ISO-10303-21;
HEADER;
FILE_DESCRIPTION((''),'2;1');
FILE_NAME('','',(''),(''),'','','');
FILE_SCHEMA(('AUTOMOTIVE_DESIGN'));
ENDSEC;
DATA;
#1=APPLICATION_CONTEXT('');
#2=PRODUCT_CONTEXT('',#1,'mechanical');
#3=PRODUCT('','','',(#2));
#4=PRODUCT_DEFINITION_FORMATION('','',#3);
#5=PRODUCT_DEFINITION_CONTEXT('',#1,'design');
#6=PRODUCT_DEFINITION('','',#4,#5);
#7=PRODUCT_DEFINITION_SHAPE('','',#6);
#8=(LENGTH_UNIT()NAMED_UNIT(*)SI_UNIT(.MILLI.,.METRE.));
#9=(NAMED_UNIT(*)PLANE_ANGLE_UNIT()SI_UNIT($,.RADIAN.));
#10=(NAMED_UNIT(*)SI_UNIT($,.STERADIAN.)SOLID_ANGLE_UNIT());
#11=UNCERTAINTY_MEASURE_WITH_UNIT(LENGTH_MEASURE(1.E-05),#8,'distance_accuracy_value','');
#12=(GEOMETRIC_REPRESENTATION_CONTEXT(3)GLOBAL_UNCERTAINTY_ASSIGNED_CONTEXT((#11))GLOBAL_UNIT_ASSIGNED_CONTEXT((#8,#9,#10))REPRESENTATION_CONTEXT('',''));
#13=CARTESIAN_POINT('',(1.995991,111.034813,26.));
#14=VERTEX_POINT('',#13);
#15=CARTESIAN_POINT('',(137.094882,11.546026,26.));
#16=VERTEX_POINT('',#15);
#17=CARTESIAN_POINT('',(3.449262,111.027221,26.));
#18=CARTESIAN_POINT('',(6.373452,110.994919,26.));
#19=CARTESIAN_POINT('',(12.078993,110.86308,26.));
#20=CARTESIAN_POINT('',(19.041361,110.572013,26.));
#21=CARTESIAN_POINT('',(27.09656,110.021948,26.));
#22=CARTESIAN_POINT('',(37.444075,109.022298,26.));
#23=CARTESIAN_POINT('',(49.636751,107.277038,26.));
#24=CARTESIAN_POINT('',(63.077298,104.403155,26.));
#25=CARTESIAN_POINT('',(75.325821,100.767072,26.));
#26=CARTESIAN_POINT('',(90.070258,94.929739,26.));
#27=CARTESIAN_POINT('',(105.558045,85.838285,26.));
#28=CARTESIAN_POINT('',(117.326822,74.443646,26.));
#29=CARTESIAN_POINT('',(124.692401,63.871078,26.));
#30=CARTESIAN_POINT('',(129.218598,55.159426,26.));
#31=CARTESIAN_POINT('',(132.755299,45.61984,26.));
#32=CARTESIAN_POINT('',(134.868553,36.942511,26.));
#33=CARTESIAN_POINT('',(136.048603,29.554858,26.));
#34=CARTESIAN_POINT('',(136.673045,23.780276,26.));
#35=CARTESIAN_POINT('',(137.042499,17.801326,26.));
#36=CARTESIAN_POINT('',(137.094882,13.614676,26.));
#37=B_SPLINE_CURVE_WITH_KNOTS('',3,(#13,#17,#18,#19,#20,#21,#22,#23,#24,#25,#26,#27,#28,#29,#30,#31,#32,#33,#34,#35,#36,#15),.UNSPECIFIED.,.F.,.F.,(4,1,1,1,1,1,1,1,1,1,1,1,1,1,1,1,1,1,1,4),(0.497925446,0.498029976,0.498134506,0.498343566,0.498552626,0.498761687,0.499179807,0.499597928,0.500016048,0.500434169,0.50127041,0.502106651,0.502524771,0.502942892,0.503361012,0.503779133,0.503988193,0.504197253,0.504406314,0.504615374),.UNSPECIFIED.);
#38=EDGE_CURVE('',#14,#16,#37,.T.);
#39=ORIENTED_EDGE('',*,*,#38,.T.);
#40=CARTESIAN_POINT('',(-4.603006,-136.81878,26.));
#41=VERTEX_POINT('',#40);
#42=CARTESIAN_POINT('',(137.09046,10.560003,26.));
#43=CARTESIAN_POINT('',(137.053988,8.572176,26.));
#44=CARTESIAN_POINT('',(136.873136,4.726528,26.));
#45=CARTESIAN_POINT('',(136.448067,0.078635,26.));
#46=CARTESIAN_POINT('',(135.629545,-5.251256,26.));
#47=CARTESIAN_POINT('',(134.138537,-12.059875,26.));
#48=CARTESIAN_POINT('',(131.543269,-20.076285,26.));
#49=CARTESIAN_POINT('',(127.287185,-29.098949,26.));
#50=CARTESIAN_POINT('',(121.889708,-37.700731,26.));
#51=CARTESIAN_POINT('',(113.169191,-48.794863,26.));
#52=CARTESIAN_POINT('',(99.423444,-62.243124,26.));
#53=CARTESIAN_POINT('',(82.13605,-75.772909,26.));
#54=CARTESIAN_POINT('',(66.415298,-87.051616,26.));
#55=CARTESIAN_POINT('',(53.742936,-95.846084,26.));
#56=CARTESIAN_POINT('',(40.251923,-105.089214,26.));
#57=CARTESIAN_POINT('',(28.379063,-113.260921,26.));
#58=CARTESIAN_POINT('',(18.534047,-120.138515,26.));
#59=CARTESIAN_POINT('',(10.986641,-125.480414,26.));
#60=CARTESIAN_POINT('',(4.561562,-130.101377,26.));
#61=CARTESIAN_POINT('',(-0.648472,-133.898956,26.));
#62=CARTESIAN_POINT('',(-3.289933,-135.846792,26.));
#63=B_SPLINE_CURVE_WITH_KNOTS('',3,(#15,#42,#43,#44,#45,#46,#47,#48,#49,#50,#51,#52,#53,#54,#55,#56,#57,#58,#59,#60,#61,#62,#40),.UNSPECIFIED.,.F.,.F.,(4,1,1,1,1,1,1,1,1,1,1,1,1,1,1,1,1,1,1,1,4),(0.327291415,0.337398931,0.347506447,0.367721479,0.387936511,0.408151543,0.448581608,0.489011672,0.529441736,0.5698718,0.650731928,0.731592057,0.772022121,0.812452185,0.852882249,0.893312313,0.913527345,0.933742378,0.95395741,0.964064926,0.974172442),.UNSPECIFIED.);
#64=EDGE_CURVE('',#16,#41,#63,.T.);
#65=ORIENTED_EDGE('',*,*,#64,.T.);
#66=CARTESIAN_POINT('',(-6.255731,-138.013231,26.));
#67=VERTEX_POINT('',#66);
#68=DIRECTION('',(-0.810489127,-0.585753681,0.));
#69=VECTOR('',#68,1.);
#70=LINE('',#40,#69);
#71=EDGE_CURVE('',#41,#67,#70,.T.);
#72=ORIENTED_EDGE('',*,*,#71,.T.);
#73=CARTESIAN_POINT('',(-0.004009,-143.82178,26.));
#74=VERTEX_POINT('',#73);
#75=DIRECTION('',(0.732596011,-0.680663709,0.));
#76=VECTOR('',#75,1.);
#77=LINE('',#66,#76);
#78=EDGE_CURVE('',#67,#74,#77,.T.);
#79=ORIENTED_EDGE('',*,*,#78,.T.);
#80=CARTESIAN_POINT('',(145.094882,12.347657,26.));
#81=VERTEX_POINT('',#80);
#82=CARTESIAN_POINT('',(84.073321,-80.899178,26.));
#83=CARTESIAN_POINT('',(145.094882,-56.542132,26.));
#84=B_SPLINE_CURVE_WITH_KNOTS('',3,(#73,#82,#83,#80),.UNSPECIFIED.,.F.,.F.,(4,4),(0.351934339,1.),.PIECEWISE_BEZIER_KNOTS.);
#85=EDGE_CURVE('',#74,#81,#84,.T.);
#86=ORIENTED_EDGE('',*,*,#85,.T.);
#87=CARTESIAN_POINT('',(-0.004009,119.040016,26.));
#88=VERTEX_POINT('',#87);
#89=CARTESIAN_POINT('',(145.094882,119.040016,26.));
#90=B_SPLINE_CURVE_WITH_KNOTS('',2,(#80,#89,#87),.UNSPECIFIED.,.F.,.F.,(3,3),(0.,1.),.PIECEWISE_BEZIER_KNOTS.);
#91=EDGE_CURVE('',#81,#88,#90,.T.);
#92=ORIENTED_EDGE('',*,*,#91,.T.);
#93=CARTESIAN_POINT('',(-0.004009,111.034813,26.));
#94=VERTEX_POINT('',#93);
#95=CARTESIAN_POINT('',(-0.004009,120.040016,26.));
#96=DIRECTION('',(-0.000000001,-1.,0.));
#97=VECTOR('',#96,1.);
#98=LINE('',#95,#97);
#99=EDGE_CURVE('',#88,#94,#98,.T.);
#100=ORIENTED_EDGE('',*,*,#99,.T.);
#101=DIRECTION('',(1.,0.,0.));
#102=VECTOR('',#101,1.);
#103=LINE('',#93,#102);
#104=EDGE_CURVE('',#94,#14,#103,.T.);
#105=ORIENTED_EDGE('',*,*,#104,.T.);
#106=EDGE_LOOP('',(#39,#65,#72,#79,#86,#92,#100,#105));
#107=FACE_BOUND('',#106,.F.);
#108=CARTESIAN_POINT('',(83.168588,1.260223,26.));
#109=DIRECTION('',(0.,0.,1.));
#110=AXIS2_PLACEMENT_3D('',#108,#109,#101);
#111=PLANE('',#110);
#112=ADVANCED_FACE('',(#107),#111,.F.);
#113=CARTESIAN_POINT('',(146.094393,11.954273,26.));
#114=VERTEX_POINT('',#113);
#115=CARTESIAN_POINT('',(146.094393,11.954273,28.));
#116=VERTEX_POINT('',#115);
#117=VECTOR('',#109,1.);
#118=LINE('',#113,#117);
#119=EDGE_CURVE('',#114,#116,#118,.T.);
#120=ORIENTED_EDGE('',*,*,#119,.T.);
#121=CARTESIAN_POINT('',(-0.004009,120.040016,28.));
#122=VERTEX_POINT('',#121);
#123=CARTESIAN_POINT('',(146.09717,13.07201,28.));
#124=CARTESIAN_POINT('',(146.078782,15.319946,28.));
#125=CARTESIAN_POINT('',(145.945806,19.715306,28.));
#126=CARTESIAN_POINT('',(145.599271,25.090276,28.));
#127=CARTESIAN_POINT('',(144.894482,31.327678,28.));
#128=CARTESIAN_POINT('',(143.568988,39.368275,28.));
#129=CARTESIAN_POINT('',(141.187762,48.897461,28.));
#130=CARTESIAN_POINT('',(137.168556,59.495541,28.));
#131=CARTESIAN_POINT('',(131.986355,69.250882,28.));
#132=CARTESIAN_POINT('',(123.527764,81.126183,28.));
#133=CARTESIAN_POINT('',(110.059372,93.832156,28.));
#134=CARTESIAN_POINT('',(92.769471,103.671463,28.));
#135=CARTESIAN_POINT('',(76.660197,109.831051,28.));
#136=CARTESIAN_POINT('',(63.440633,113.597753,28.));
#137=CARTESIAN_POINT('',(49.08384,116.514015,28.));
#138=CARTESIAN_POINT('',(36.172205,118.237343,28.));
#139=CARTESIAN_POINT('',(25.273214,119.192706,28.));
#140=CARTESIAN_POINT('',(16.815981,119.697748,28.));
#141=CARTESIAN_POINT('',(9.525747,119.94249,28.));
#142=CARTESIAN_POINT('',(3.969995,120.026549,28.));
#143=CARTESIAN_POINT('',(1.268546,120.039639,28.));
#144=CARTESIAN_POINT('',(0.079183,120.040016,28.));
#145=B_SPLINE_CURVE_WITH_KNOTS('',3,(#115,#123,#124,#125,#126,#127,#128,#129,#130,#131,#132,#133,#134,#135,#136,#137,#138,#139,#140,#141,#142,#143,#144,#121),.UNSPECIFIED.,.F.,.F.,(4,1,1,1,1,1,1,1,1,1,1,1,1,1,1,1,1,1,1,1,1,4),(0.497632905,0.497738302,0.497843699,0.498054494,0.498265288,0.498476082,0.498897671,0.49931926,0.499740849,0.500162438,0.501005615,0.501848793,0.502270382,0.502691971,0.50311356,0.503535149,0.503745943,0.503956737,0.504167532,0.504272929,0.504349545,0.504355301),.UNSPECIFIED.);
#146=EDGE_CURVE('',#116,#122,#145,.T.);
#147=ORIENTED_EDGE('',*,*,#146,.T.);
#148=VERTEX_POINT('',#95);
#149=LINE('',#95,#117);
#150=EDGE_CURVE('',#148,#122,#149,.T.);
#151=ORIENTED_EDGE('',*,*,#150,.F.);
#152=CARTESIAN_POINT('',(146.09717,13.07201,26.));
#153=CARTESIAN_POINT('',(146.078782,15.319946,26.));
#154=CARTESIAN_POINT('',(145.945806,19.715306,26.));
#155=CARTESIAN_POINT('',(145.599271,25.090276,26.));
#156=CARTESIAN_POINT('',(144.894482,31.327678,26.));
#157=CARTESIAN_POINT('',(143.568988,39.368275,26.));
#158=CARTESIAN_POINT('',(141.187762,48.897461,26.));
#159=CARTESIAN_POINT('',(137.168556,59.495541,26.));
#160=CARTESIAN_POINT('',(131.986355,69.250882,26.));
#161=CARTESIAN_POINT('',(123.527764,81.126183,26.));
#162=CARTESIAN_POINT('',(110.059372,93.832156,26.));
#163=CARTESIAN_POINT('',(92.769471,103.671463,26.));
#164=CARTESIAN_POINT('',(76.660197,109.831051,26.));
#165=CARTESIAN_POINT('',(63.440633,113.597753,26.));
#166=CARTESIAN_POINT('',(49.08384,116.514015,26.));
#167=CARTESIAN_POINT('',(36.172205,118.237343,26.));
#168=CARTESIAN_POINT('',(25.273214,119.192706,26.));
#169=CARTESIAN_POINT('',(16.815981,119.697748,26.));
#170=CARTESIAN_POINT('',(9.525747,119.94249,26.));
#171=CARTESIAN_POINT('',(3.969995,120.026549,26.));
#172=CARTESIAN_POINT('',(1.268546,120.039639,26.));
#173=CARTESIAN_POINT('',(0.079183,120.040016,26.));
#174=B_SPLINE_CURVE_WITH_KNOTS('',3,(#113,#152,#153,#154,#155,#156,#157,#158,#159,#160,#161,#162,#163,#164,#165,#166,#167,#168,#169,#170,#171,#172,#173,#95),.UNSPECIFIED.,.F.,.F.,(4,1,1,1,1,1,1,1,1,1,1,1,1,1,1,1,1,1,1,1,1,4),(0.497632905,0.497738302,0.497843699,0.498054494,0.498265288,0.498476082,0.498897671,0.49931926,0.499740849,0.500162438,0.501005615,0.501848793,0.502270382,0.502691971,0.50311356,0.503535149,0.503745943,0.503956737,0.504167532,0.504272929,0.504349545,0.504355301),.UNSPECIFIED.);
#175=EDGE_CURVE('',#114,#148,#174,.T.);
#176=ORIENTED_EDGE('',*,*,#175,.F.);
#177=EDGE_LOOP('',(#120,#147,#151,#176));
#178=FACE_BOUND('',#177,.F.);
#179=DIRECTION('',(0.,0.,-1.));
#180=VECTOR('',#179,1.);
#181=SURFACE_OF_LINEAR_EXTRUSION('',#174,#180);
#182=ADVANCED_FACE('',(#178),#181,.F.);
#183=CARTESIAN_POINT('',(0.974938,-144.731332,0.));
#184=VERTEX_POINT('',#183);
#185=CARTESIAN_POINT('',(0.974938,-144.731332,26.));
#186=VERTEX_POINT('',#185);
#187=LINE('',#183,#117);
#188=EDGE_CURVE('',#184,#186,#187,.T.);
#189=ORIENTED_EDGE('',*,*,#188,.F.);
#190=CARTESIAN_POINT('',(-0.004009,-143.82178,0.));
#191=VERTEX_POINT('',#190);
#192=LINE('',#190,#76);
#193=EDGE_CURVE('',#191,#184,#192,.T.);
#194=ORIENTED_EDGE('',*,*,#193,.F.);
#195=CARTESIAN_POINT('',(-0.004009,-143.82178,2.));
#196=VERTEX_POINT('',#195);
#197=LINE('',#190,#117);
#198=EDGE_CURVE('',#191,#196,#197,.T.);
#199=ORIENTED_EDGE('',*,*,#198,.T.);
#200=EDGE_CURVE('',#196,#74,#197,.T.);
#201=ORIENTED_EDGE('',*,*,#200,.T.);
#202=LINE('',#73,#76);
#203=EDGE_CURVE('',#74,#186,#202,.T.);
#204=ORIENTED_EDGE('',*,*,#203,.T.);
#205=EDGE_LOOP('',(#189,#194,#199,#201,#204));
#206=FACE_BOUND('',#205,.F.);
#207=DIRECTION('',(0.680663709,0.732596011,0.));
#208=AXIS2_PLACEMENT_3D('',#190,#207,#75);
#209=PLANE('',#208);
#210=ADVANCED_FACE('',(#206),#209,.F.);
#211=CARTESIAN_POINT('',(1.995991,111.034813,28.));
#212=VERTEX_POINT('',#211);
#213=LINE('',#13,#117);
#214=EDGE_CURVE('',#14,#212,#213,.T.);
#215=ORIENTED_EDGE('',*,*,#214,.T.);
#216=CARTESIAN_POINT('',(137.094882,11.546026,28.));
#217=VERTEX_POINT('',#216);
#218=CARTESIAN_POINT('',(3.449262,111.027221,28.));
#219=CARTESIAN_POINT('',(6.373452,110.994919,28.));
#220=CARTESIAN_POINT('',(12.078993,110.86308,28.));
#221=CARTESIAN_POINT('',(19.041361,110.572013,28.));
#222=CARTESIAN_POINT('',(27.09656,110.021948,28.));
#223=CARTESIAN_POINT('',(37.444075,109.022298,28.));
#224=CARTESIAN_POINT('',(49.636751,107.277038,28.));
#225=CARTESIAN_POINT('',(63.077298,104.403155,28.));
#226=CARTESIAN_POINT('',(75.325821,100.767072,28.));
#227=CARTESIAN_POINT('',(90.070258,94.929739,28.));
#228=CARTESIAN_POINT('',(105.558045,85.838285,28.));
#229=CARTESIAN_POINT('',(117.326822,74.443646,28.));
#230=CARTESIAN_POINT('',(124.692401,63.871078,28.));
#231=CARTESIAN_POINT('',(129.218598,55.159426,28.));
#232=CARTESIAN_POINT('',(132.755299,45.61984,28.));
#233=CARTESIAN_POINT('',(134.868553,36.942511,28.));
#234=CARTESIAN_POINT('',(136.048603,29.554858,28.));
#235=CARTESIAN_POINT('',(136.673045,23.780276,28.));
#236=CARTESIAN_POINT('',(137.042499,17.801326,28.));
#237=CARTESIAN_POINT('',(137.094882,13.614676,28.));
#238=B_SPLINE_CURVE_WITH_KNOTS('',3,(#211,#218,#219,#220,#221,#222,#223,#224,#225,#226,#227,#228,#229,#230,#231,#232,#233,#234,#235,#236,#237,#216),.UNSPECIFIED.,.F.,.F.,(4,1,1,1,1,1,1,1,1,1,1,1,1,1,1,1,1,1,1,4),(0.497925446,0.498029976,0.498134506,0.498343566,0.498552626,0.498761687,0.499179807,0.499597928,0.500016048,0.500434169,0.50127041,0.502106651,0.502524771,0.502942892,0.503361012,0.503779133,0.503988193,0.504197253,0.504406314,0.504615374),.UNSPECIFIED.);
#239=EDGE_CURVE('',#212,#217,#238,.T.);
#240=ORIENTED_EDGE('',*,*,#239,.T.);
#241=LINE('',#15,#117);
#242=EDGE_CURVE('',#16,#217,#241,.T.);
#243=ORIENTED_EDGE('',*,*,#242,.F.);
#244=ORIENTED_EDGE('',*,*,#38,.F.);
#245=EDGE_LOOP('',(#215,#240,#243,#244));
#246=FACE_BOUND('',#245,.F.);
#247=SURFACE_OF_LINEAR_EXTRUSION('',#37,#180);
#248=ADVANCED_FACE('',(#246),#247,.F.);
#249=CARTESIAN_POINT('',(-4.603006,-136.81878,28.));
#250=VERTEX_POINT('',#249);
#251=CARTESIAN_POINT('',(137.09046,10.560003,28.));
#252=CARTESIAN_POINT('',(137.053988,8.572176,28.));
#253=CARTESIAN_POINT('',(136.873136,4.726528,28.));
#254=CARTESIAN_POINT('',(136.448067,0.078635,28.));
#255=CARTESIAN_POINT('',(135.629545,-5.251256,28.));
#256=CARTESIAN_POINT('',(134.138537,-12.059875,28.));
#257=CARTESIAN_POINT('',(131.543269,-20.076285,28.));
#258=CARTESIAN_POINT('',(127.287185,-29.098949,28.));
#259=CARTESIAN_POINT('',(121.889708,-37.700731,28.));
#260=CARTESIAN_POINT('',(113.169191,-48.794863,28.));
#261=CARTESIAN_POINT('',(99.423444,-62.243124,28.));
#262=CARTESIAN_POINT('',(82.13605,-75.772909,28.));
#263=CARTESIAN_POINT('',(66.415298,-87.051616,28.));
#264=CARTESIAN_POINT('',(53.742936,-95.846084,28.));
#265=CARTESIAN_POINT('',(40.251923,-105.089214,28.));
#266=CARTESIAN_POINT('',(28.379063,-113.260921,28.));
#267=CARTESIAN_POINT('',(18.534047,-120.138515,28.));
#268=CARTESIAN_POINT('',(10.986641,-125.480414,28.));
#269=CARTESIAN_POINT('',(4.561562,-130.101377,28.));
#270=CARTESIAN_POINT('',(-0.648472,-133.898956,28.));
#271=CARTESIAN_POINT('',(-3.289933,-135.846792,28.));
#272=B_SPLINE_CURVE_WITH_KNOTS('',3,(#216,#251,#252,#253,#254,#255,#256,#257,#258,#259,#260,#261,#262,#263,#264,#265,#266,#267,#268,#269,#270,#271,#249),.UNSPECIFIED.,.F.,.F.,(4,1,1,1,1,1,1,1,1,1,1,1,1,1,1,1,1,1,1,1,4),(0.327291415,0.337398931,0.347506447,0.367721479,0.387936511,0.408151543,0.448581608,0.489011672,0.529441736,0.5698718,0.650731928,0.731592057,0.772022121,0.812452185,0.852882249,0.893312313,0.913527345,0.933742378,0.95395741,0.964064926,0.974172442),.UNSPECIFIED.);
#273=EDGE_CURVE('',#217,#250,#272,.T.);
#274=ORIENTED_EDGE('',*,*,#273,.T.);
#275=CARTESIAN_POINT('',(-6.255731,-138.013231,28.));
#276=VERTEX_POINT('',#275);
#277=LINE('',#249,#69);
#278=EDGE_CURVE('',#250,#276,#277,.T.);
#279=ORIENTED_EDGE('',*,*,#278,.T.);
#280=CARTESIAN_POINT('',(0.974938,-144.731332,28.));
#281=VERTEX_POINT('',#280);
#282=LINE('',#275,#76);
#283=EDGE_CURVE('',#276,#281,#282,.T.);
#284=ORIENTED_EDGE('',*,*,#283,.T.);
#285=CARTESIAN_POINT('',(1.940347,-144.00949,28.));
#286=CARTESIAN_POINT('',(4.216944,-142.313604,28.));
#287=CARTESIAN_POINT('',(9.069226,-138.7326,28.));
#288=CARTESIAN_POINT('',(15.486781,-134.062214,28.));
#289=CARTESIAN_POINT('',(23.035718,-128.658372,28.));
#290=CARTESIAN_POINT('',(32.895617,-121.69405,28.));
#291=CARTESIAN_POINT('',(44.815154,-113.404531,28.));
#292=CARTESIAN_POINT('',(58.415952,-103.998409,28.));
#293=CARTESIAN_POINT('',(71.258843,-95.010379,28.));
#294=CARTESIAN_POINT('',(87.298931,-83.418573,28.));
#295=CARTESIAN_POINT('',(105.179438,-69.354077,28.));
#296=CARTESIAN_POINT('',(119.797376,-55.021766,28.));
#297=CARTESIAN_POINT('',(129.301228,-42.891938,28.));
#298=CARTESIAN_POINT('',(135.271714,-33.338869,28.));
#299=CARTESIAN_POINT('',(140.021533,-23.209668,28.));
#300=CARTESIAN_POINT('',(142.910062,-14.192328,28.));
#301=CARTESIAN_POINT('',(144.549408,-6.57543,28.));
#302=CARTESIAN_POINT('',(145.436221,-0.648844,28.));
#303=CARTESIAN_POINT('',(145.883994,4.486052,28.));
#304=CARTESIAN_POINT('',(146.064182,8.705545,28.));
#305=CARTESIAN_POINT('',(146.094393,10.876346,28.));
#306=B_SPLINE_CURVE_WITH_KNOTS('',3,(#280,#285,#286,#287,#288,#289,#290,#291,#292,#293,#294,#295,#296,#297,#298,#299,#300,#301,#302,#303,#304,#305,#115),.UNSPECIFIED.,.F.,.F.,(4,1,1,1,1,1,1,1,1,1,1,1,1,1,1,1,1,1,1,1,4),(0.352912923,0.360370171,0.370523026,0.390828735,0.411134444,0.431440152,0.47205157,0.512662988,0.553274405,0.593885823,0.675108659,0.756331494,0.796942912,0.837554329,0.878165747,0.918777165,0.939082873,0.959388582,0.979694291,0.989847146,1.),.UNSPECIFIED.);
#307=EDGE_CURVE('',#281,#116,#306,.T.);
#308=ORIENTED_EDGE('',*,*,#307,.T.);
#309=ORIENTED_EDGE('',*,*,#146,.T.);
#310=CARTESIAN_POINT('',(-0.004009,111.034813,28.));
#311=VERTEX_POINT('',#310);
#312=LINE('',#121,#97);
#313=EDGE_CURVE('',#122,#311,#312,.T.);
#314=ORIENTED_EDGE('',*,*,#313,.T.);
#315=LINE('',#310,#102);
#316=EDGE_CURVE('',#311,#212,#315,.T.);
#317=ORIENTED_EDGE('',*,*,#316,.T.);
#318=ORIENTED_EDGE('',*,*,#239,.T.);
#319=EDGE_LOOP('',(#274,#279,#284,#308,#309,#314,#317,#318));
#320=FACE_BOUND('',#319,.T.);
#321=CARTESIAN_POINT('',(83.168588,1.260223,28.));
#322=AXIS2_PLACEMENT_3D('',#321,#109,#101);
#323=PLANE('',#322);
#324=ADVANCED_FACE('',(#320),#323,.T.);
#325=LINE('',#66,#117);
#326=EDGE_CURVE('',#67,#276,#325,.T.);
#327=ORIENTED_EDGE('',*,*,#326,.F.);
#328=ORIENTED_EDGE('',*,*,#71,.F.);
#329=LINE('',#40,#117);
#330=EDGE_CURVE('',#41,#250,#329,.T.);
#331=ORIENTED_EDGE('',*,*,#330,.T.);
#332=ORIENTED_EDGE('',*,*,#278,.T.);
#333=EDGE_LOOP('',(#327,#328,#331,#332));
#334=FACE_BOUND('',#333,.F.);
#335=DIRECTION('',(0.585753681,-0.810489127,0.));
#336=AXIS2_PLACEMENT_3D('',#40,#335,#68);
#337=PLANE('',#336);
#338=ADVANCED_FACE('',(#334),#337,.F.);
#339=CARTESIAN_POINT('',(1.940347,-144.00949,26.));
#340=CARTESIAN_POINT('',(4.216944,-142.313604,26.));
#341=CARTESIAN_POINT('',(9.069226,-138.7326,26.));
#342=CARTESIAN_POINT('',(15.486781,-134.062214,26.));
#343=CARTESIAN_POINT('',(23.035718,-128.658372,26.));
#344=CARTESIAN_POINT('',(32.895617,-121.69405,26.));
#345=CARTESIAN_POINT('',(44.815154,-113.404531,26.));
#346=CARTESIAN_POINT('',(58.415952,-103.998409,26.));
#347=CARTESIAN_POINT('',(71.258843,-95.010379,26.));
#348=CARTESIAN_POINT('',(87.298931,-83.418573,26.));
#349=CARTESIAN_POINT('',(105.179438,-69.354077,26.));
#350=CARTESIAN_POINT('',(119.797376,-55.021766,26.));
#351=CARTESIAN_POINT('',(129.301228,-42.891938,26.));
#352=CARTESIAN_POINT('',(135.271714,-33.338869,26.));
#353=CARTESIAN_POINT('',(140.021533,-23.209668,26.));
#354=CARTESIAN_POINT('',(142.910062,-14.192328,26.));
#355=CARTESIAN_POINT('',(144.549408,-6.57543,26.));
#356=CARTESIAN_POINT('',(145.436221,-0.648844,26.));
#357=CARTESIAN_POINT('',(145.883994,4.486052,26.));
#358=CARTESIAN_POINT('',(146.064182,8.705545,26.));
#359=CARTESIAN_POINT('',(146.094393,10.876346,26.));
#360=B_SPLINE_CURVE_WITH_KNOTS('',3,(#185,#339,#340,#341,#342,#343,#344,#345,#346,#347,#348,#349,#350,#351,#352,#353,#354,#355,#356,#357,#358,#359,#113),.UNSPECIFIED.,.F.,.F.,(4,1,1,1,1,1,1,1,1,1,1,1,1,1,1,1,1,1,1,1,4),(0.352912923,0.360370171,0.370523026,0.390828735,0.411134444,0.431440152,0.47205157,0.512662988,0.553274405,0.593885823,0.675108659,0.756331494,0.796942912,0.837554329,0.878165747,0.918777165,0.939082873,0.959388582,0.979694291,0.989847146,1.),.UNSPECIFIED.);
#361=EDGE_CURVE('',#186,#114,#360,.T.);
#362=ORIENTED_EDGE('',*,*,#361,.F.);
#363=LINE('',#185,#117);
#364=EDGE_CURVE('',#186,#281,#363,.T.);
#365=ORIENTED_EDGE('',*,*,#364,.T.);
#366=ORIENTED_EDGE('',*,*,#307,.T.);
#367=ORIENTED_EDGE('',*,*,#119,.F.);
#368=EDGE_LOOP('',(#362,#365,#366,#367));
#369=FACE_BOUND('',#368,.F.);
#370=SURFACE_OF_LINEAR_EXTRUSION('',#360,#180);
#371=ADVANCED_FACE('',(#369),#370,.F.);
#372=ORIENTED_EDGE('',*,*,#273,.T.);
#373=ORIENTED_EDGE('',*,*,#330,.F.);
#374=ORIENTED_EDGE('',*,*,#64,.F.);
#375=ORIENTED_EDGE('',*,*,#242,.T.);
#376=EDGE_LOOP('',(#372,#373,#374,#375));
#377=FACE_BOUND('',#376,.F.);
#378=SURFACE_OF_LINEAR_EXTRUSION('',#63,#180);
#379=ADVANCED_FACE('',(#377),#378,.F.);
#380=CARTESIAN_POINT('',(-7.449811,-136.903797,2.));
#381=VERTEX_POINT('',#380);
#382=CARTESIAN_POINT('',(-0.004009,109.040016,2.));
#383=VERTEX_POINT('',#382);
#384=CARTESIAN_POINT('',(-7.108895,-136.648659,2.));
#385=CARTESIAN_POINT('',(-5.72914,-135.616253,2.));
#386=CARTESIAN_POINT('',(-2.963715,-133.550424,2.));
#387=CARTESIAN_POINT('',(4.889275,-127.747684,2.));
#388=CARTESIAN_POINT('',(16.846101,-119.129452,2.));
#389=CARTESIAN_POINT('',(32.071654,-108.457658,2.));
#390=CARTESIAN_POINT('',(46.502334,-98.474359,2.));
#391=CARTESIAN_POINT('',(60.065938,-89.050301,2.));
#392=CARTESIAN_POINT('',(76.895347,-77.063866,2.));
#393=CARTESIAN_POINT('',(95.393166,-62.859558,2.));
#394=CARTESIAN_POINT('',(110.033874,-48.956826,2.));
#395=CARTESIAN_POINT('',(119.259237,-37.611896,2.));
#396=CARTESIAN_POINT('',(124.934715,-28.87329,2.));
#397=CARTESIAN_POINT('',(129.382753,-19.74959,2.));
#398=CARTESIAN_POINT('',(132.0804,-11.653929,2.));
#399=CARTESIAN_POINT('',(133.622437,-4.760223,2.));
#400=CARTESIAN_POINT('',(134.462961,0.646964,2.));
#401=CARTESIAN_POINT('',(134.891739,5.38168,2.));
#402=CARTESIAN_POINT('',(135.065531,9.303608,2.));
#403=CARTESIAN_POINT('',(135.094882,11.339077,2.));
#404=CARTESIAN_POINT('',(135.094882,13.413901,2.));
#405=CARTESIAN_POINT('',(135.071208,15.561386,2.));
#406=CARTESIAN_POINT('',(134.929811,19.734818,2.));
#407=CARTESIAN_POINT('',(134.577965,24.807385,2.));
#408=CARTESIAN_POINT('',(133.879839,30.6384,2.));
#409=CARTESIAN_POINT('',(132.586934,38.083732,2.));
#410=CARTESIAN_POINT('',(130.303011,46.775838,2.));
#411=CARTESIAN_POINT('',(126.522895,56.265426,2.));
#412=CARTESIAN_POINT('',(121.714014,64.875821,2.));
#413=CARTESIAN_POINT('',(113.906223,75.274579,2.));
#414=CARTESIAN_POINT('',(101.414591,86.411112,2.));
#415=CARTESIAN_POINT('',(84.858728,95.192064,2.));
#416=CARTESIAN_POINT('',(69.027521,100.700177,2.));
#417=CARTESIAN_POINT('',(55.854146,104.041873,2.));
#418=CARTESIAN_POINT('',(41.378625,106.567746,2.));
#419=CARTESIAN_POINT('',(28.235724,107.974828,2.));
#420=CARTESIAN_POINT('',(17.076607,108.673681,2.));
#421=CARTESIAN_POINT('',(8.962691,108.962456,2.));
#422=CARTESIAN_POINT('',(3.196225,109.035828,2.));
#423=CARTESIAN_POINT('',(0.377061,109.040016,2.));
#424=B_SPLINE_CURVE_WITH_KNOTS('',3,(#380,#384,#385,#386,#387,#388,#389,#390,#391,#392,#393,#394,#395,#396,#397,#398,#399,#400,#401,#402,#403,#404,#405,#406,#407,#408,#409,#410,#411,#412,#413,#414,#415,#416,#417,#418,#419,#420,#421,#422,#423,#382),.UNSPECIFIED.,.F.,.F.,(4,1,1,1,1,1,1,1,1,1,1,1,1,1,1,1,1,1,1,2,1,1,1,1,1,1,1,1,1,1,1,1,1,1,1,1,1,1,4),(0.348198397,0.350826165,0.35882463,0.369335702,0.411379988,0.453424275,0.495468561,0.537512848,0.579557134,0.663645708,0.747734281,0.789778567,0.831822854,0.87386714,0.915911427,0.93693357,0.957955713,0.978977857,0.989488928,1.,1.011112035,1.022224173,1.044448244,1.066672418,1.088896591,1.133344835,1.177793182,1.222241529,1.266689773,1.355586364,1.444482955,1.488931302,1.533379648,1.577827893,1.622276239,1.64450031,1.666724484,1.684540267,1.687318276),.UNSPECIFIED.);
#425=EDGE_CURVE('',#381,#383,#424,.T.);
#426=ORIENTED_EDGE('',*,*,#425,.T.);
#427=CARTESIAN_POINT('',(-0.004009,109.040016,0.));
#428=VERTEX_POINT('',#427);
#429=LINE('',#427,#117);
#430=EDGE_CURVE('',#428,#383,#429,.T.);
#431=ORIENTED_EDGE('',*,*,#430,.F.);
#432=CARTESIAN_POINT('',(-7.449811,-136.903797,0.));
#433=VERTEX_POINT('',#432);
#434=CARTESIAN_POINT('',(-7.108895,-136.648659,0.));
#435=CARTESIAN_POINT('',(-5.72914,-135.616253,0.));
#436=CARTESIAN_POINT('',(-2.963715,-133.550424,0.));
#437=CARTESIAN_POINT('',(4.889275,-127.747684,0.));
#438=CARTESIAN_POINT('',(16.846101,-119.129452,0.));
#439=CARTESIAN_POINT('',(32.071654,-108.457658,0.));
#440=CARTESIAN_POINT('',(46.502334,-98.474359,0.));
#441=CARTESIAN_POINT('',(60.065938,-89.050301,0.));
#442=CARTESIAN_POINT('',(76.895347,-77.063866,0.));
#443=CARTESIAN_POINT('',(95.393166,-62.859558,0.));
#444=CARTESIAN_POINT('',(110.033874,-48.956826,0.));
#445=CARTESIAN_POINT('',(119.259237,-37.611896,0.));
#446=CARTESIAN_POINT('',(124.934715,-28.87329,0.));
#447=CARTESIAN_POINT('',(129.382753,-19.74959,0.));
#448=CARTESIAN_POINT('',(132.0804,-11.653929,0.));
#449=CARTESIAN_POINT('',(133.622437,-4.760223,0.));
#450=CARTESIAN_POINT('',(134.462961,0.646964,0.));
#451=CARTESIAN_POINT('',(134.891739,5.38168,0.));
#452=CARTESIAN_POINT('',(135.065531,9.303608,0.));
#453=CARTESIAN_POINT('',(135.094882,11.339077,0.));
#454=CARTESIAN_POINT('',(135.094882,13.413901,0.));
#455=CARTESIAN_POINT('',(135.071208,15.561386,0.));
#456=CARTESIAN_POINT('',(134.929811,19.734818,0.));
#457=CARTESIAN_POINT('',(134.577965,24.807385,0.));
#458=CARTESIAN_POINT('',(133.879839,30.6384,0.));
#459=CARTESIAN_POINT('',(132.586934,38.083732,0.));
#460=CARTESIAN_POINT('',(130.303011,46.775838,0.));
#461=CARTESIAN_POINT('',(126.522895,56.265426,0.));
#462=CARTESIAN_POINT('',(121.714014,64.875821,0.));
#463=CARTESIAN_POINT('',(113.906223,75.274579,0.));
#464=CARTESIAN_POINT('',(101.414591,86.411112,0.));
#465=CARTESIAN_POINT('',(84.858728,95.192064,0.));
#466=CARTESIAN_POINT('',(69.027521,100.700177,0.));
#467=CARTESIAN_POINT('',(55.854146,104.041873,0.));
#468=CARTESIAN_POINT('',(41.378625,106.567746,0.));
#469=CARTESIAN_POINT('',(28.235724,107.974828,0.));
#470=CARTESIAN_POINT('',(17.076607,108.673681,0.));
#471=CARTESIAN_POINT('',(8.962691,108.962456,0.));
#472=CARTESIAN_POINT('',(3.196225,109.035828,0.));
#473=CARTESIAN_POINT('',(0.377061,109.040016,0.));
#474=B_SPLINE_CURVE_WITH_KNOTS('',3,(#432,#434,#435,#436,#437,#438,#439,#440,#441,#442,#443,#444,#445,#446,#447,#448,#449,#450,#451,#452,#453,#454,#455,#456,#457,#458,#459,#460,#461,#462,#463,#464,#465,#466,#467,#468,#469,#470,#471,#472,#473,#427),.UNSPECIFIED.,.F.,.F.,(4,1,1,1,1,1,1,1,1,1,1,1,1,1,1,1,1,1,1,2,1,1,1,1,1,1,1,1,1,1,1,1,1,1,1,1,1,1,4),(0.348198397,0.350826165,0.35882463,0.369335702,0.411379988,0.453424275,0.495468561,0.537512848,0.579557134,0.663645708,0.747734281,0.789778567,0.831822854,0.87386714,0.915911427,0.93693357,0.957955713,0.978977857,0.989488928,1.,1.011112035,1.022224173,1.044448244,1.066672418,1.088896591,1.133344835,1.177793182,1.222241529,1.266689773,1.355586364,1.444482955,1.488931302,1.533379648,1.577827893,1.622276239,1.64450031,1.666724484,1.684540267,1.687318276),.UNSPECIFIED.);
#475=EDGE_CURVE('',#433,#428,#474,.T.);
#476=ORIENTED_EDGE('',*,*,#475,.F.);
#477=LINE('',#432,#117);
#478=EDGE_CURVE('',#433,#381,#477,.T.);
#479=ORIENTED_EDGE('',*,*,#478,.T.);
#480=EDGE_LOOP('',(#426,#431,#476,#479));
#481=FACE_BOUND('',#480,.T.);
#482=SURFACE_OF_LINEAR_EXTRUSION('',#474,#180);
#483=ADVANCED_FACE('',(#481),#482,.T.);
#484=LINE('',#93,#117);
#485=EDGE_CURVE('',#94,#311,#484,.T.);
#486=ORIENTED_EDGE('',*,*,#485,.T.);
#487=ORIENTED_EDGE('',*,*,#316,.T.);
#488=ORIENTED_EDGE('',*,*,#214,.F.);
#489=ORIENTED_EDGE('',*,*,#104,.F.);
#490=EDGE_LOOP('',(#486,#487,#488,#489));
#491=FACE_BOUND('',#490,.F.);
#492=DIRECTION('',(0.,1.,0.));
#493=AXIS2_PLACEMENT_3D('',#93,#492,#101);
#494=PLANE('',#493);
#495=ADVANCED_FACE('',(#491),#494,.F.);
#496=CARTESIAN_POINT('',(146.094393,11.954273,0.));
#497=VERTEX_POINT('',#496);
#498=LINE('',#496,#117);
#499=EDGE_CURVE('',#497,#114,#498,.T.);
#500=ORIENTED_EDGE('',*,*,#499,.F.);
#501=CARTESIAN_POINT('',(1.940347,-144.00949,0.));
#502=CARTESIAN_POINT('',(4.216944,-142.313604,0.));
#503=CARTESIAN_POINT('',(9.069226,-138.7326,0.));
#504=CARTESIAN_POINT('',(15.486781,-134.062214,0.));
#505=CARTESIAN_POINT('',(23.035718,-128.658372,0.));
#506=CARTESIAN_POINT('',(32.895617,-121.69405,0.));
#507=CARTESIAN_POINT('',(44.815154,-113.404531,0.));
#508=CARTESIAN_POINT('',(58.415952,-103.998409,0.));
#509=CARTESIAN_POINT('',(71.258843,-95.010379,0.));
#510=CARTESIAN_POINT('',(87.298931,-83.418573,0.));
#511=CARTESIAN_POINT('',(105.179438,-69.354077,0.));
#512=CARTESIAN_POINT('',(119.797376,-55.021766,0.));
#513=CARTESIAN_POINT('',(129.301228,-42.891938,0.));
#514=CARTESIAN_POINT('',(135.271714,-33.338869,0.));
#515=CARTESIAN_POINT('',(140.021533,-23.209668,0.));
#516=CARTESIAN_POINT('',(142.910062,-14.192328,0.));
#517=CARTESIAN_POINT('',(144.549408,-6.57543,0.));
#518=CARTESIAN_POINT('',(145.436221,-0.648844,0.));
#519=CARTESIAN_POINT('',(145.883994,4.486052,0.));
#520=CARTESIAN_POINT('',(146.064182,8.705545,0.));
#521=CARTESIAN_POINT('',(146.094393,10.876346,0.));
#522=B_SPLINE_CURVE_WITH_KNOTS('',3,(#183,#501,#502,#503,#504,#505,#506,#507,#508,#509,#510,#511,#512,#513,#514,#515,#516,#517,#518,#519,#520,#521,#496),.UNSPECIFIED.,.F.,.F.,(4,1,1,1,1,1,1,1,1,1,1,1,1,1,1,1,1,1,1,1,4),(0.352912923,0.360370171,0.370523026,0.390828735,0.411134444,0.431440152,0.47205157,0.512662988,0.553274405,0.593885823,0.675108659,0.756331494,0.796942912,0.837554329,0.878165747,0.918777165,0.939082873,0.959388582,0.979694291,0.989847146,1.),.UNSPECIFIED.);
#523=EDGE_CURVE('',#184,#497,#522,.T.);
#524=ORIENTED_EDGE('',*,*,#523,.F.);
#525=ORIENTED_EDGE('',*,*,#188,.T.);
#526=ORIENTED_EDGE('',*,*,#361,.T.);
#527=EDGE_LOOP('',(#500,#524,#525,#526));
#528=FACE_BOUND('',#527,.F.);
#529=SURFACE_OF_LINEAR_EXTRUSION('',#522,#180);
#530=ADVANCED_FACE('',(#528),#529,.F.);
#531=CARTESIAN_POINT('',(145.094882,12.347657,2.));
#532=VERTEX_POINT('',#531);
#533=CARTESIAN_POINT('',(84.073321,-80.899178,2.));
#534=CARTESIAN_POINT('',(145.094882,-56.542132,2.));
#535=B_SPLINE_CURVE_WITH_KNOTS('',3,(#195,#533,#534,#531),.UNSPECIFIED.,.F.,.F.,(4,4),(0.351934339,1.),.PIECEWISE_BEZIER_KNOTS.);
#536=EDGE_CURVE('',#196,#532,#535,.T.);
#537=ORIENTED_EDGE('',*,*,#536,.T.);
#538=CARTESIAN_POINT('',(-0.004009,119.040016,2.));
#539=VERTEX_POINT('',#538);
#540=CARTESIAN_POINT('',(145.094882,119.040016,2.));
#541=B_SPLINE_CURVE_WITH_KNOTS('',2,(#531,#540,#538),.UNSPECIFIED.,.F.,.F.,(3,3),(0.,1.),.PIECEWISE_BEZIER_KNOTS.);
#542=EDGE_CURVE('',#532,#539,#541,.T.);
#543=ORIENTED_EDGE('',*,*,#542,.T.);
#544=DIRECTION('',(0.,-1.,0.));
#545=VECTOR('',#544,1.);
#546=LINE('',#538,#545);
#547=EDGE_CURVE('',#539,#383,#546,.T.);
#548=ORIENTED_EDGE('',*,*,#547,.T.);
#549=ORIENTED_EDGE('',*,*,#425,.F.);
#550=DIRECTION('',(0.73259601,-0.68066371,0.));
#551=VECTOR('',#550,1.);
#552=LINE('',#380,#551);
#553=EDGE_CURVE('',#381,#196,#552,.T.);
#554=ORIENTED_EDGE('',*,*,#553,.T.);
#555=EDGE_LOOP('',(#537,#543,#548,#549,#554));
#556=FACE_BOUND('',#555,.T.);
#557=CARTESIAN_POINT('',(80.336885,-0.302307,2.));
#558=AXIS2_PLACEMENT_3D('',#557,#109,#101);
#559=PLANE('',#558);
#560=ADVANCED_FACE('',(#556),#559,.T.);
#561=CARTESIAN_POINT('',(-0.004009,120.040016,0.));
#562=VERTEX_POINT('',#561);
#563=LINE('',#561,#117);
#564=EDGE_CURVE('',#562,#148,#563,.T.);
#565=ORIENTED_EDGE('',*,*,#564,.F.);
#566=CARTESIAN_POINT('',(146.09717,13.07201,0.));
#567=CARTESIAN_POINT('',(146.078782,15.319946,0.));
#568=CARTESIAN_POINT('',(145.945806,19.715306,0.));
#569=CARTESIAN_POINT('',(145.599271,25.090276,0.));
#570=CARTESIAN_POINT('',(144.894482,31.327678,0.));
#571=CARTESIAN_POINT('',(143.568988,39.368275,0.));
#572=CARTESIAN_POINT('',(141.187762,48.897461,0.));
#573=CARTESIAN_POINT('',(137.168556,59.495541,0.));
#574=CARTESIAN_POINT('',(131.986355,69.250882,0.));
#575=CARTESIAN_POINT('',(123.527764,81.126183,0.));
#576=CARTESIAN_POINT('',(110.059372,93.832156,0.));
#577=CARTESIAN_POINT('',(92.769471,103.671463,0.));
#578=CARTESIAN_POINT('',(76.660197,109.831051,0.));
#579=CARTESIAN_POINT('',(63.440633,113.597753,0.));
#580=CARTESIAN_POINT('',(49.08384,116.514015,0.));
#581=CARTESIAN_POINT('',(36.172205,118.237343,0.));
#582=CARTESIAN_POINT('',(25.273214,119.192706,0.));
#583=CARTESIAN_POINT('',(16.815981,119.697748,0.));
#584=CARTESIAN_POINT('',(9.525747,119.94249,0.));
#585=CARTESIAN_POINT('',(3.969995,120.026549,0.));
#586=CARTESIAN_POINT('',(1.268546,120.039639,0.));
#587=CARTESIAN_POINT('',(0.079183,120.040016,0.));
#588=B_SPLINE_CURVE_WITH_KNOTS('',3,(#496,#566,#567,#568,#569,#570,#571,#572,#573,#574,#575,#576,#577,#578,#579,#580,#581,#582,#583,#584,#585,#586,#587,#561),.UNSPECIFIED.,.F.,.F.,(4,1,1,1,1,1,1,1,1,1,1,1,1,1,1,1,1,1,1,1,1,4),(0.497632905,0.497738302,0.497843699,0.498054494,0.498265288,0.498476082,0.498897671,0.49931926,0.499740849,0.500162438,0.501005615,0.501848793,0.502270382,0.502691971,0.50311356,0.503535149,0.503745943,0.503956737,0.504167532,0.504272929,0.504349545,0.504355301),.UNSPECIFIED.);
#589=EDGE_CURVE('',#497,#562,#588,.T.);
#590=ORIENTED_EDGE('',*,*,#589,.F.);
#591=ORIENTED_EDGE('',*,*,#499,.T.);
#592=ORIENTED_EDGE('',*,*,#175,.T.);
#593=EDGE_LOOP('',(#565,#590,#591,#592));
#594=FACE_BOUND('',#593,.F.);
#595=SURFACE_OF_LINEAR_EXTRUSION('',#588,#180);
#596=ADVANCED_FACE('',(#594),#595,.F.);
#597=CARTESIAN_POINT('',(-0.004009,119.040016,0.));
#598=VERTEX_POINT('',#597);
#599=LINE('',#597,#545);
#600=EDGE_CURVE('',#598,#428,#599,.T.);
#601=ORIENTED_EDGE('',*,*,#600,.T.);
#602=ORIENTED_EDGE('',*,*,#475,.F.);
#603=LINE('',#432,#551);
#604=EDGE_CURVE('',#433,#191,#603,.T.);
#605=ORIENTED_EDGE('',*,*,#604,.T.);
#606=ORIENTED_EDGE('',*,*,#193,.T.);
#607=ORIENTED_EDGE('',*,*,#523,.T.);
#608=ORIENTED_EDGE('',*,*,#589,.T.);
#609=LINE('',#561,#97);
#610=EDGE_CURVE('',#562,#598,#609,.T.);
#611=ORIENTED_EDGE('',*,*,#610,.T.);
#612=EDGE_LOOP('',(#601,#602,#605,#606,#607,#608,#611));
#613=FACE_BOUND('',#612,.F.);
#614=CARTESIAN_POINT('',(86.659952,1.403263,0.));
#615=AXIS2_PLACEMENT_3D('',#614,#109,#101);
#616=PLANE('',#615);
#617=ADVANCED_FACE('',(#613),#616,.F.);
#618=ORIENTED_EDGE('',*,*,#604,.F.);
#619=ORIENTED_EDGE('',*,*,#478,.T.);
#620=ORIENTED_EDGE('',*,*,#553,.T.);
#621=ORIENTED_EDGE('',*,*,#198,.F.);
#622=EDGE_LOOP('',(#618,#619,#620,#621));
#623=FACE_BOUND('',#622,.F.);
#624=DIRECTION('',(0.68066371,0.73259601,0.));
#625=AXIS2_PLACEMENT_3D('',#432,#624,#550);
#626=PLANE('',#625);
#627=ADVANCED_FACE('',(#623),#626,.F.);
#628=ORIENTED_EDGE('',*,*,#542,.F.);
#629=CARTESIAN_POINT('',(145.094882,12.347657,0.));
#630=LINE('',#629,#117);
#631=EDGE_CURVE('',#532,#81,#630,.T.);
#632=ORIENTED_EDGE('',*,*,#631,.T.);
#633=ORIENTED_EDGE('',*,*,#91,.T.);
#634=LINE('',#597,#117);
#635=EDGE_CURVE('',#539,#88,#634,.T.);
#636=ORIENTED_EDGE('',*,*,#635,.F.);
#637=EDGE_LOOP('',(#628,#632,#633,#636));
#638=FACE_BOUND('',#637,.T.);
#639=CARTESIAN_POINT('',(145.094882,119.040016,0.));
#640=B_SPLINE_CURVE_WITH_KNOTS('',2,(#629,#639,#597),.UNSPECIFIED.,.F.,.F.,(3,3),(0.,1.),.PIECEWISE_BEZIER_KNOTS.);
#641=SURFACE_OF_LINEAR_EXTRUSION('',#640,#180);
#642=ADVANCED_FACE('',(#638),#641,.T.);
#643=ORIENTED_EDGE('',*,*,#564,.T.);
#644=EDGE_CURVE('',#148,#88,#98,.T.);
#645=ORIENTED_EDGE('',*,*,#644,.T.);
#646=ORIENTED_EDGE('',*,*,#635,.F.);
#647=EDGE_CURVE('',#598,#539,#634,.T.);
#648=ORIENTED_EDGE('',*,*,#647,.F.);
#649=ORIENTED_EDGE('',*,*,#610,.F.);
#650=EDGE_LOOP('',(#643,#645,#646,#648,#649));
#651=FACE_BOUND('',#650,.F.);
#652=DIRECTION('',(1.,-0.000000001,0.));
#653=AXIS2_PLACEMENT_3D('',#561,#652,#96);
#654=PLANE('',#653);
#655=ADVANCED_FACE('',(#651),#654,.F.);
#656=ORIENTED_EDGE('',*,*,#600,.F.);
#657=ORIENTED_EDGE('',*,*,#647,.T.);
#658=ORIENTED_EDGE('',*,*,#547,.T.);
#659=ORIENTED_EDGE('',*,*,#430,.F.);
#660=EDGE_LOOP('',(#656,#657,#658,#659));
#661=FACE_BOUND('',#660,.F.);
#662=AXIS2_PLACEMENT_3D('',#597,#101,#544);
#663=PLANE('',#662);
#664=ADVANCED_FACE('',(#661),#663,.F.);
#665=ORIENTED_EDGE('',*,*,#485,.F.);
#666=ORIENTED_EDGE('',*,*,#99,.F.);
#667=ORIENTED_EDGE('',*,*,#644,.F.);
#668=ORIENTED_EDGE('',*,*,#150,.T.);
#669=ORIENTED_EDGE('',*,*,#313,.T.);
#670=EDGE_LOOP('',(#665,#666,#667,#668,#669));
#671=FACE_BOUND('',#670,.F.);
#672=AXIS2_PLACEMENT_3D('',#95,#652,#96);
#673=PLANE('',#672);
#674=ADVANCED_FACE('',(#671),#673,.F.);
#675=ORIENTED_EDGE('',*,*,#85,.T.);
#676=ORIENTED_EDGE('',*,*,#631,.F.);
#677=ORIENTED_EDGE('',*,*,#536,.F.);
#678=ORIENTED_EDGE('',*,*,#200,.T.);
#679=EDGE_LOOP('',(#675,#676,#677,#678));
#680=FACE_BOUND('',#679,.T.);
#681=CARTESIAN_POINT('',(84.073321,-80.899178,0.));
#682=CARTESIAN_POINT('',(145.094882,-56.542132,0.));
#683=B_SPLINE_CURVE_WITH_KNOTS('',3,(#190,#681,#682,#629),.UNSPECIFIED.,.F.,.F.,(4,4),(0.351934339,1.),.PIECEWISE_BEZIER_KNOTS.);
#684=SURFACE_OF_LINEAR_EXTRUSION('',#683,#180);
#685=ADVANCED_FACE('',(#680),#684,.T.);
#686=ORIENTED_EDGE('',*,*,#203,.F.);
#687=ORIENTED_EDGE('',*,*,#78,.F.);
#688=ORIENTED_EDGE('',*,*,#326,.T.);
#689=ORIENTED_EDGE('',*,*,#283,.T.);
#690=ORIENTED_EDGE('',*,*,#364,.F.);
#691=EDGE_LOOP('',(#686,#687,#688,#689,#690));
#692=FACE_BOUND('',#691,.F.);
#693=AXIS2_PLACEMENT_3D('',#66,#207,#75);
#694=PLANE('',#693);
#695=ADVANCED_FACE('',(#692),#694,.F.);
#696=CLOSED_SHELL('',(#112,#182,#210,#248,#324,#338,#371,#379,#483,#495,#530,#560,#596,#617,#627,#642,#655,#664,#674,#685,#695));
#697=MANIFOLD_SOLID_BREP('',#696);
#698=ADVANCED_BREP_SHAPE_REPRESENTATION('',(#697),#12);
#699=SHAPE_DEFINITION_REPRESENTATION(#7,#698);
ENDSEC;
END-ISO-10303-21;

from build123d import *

# Parameters (mm, degrees)
BOSS_EXTRU_2_DEPTH = 2
BOSS_EXTRU_3_START = -2
BOSS_EXTRU_3_DEPTH = 26
BOSS_EXTRU_4_DEPTH = 2


with BuildPart() as part:
    # Esquisse1 → Boss.-Extru.2 (new body)
    with BuildSketch(Plane.XY):
        with BuildLine():
            Line((-0.00400884, 119.040016289), (-0.00400884, 109.040016289))
            add(Edge.make_bspline(
                [(135.094881688, 12.347656768), (135.094881688, 13.413901205), (135.071208206, 15.561386013), (134.929810594, 19.734818404), (134.577965377, 24.807384894), (133.879838594, 30.638399661), (132.586934474, 38.083732214), (130.303010899, 46.775838335), (126.522895447, 56.26542587), (121.714013565, 64.87582069), (113.906223439, 75.274579224), (101.414591155, 86.411112386), (84.858728164, 95.192064474), (69.027521057, 100.70017665), (55.854146224, 104.041872862), (41.378624621, 106.567746277), (28.23572446, 107.974828147), (17.076606526, 108.67368115), (8.962691216, 108.96245631), (3.196225492, 109.035828431), (0.377060546, 109.040016289), (-0.00400884, 109.040016289)],
                knots=[0.497645186, 0.497645186, 0.497645186, 0.497645186, 0.49775367, 0.497862155, 0.498079123, 0.498296092, 0.498513061, 0.498946998, 0.499380936, 0.499814874, 0.500248811, 0.501116686, 0.501984561, 0.502418499, 0.502852437, 0.503286374, 0.503720312, 0.50393728, 0.504154249, 0.50432818, 0.504355301, 0.504355301, 0.504355301, 0.504355301], degree=3))
            add(Edge.make_bspline(
                [(-7.449810705, -136.903796747), (-7.10889508, -136.648659025), (-5.729139825, -135.616252852), (-2.963715196, -133.550423631), (4.889274506, -127.747683962), (16.846101009, -119.129451608), (32.071653761, -108.457658237), (46.502334017, -98.474358922), (60.065937573, -89.050300935), (76.895347004, -77.063866417), (95.393165507, -62.85955821), (110.033873571, -48.95682606), (119.259236565, -37.611895851), (124.934715012, -28.873289935), (129.38275296, -19.749589671), (132.080400116, -11.653928753), (133.622437355, -4.760222546), (134.46296061, 0.646964432), (134.891739077, 5.381679919), (135.065530665, 9.303607794), (135.094881688, 11.339077189), (135.094881688, 12.347656768)],
                knots=[0.348198397, 0.348198397, 0.348198397, 0.348198397, 0.350826165, 0.35882463, 0.369335702, 0.411379988, 0.453424275, 0.495468561, 0.537512848, 0.579557134, 0.663645708, 0.747734281, 0.789778567, 0.831822854, 0.87386714, 0.915911427, 0.93693357, 0.957955713, 0.978977857, 0.989488928, 1, 1, 1, 1], degree=3))
            Line((-7.449810705, -136.903796747), (-0.00400884, -143.821780254))
            add(Edge.make_bspline(
                [(-0.00400884, -143.821780254), (84.073321163, -80.899177556), (145.094881689, -56.542131568), (145.094881688, 12.347656767)],
                knots=[0.351934339, 0.351934339, 0.351934339, 0.351934339, 1, 1, 1, 1], degree=3))
            add(Edge.make_bspline(
                [(145.094881688, 12.347656767), (145.094881688, 119.040016289), (-0.00400884, 119.040016289)],
                knots=[0, 0, 0, 1, 1, 1], degree=2))
        make_face()
    extrude(amount=BOSS_EXTRU_2_DEPTH)

    # Esquisse2 → Boss.-Extru.3 (add)
    with BuildSketch(Plane.XY.offset(2).offset(BOSS_EXTRU_3_START)):
        with BuildLine():
            Line((-0.004008825, 120.040016289), (-0.004008826, 119.040016289))
            add(Edge.make_bspline(
                [(145.094881688, 12.347656779), (145.09488168, 119.040016284), (-0.004008826, 119.040016289)],
                knots=[0, 0, 0, 1, 1, 1], degree=2))
            add(Edge.make_bspline(
                [(-0.00400884, -143.821780254), (84.073321163, -80.899177556), (145.094881689, -56.542131568), (145.094881688, 12.347656779)],
                knots=[0.351934339, 0.351934339, 0.351934339, 0.351934339, 1, 1, 1, 1], degree=3))
            Line((-0.00400884, -143.821780254), (0.974938317, -144.731331758))
            add(Edge.make_bspline(
                [(0.974938317, -144.731331758), (1.940347306, -144.009490017), (4.21694405, -142.313603561), (9.069225919, -138.732599504), (15.486781125, -134.06221379), (23.035718298, -128.658372426), (32.89561739, -121.694049694), (44.81515406, -113.404531475), (58.415951602, -103.998408935), (71.258842891, -95.010378812), (87.298930593, -83.418573034), (105.179437585, -69.354076661), (119.797375804, -55.02176587), (129.301227667, -42.891938136), (135.271714019, -33.338868533), (140.021533003, -23.209667681), (142.910061689, -14.192327822), (144.54940778, -6.575429809), (145.436220501, -0.648844125), (145.883993765, 4.48605166), (146.064181974, 8.705544543), (146.094392663, 10.876345952), (146.094392664, 11.95427261)],
                knots=[0.352912923, 0.352912923, 0.352912923, 0.352912923, 0.360370171, 0.370523026, 0.390828735, 0.411134444, 0.431440152, 0.47205157, 0.512662988, 0.553274405, 0.593885823, 0.675108659, 0.756331494, 0.796942912, 0.837554329, 0.878165747, 0.918777165, 0.939082873, 0.959388582, 0.979694291, 0.989847146, 1, 1, 1, 1], degree=3))
            add(Edge.make_bspline(
                [(146.094392664, 11.95427261), (146.097169698, 13.072010325), (146.078781877, 15.319946132), (145.945806495, 19.715306464), (145.599271174, 25.090276491), (144.894482198, 31.327678025), (143.568987818, 39.368274841), (141.187761716, 48.897461146), (137.168556158, 59.495541245), (131.986355052, 69.250882021), (123.527763641, 81.126183408), (110.059371985, 93.832155871), (92.76947067, 103.671463097), (76.660196542, 109.831050786), (63.440632963, 113.59775321), (49.083840319, 116.514014852), (36.172205395, 118.237343204), (25.273213662, 119.192706074), (16.815980973, 119.69774819), (9.525747125, 119.942490272), (3.969994561, 120.026549051), (1.268546425, 120.039639283), (0.07918291, 120.040016289), (-0.004008825, 120.040016289)],
                knots=[0.497632905, 0.497632905, 0.497632905, 0.497632905, 0.497738302, 0.497843699, 0.498054494, 0.498265288, 0.498476082, 0.498897671, 0.49931926, 0.499740849, 0.500162438, 0.501005615, 0.501848793, 0.502270382, 0.502691971, 0.50311356, 0.503535149, 0.503745943, 0.503956737, 0.504167532, 0.504272929, 0.504349545, 0.504355301, 0.504355301, 0.504355301, 0.504355301], degree=3))
        make_face()
    extrude(amount=BOSS_EXTRU_3_DEPTH)

    # Esquisse3 → Boss.-Extru.4 (add)
    with BuildSketch(Plane.XY.offset(26)):
        with BuildLine():
            Line((-6.255730586, -138.013230858), (0.974938317, -144.731331758))
            add(Edge.make_bspline(
                [(0.974938317, -144.731331758), (1.940347306, -144.009490017), (4.21694405, -142.313603561), (9.069225919, -138.732599504), (15.486781125, -134.06221379), (23.035718298, -128.658372426), (32.89561739, -121.694049694), (44.81515406, -113.404531475), (58.415951602, -103.998408935), (71.258842891, -95.010378812), (87.298930593, -83.418573034), (105.179437585, -69.354076661), (119.797375804, -55.02176587), (129.301227667, -42.891938136), (135.271714019, -33.338868533), (140.021533003, -23.209667681), (142.910061689, -14.192327822), (144.54940778, -6.575429809), (145.436220501, -0.648844125), (145.883993765, 4.48605166), (146.064181974, 8.705544543), (146.094392663, 10.876345952), (146.094392664, 11.95427261)],
                knots=[0.352912923, 0.352912923, 0.352912923, 0.352912923, 0.360370171, 0.370523026, 0.390828735, 0.411134444, 0.431440152, 0.47205157, 0.512662988, 0.553274405, 0.593885823, 0.675108659, 0.756331494, 0.796942912, 0.837554329, 0.878165747, 0.918777165, 0.939082873, 0.959388582, 0.979694291, 0.989847146, 1, 1, 1, 1], degree=3))
            add(Edge.make_bspline(
                [(146.094392664, 11.95427261), (146.097169698, 13.072010325), (146.078781877, 15.319946132), (145.945806495, 19.715306464), (145.599271174, 25.090276491), (144.894482198, 31.327678025), (143.568987818, 39.368274841), (141.187761716, 48.897461146), (137.168556158, 59.495541245), (131.986355052, 69.250882021), (123.527763641, 81.126183408), (110.059371985, 93.832155871), (92.76947067, 103.671463097), (76.660196542, 109.831050786), (63.440632963, 113.59775321), (49.083840319, 116.514014852), (36.172205395, 118.237343204), (25.273213662, 119.192706074), (16.815980973, 119.69774819), (9.525747125, 119.942490272), (3.969994561, 120.026549051), (1.268546425, 120.039639283), (0.07918291, 120.040016289), (-0.004008825, 120.040016289)],
                knots=[0.497632905, 0.497632905, 0.497632905, 0.497632905, 0.497738302, 0.497843699, 0.498054494, 0.498265288, 0.498476082, 0.498897671, 0.49931926, 0.499740849, 0.500162438, 0.501005615, 0.501848793, 0.502270382, 0.502691971, 0.50311356, 0.503535149, 0.503745943, 0.503956737, 0.504167532, 0.504272929, 0.504349545, 0.504355301, 0.504355301, 0.504355301, 0.504355301], degree=3))
            Line((-0.004008825, 120.040016289), (-0.004008837, 111.034812981))
            Line((-0.004008837, 111.034812981), (1.995991163, 111.034812981))
            add(Edge.make_bspline(
                [(1.995991163, 111.034812981), (3.449262421, 111.027220593), (6.373451501, 110.994919277), (12.078992886, 110.86307951), (19.041360742, 110.572013465), (27.096560383, 110.021948285), (37.44407538, 109.022298227), (49.636750503, 107.277037509), (63.077298444, 104.403154728), (75.325820827, 100.767072473), (90.070257503, 94.929738917), (105.558045333, 85.838284977), (117.326821816, 74.44364635), (124.692400635, 63.871078074), (129.218597962, 55.159425743), (132.755299467, 45.619839598), (134.868553088, 36.942511152), (136.048603344, 29.554857683), (136.673045155, 23.780276366), (137.042498844, 17.801325721), (137.094881688, 13.614675878), (137.094881688, 11.546026453)],
                knots=[0.497925446, 0.497925446, 0.497925446, 0.497925446, 0.498029976, 0.498134506, 0.498343566, 0.498552626, 0.498761687, 0.499179807, 0.499597928, 0.500016048, 0.500434169, 0.50127041, 0.502106651, 0.502524771, 0.502942892, 0.503361012, 0.503779133, 0.503988193, 0.504197253, 0.504406314, 0.504615374, 0.504615374, 0.504615374, 0.504615374], degree=3))
            add(Edge.make_bspline(
                [(137.094881688, 11.546026453), (137.090459851, 10.56000328), (137.053988144, 8.572176445), (136.873136382, 4.726528145), (136.448066581, 0.078634705), (135.629544709, -5.251256128), (134.138536999, -12.059875265), (131.543268898, -20.076285021), (127.287184822, -29.098949454), (121.889707547, -37.700731392), (113.169191271, -48.794863494), (99.423443834, -62.24312359), (82.136049919, -75.772908771), (66.415298449, -87.051616014), (53.742936395, -95.846083964), (40.251923361, -105.089213893), (28.379063236, -113.260921468), (18.534046888, -120.138514542), (10.986640564, -125.480414397), (4.561562429, -130.101377496), (-0.648471776, -133.898956426), (-3.289933492, -135.846791526), (-4.603005712, -136.818779696)],
                knots=[0.327291415, 0.327291415, 0.327291415, 0.327291415, 0.337398931, 0.347506447, 0.367721479, 0.387936511, 0.408151543, 0.448581608, 0.489011672, 0.529441736, 0.5698718, 0.650731928, 0.731592057, 0.772022121, 0.812452185, 0.852882249, 0.893312313, 0.913527345, 0.933742378, 0.95395741, 0.964064926, 0.974172442, 0.974172442, 0.974172442, 0.974172442], degree=3))
            Line((-4.603005712, -136.818779696), (-6.255730586, -138.013230858))
        make_face()
    extrude(amount=BOSS_EXTRU_4_DEPTH)


solid = part.part
